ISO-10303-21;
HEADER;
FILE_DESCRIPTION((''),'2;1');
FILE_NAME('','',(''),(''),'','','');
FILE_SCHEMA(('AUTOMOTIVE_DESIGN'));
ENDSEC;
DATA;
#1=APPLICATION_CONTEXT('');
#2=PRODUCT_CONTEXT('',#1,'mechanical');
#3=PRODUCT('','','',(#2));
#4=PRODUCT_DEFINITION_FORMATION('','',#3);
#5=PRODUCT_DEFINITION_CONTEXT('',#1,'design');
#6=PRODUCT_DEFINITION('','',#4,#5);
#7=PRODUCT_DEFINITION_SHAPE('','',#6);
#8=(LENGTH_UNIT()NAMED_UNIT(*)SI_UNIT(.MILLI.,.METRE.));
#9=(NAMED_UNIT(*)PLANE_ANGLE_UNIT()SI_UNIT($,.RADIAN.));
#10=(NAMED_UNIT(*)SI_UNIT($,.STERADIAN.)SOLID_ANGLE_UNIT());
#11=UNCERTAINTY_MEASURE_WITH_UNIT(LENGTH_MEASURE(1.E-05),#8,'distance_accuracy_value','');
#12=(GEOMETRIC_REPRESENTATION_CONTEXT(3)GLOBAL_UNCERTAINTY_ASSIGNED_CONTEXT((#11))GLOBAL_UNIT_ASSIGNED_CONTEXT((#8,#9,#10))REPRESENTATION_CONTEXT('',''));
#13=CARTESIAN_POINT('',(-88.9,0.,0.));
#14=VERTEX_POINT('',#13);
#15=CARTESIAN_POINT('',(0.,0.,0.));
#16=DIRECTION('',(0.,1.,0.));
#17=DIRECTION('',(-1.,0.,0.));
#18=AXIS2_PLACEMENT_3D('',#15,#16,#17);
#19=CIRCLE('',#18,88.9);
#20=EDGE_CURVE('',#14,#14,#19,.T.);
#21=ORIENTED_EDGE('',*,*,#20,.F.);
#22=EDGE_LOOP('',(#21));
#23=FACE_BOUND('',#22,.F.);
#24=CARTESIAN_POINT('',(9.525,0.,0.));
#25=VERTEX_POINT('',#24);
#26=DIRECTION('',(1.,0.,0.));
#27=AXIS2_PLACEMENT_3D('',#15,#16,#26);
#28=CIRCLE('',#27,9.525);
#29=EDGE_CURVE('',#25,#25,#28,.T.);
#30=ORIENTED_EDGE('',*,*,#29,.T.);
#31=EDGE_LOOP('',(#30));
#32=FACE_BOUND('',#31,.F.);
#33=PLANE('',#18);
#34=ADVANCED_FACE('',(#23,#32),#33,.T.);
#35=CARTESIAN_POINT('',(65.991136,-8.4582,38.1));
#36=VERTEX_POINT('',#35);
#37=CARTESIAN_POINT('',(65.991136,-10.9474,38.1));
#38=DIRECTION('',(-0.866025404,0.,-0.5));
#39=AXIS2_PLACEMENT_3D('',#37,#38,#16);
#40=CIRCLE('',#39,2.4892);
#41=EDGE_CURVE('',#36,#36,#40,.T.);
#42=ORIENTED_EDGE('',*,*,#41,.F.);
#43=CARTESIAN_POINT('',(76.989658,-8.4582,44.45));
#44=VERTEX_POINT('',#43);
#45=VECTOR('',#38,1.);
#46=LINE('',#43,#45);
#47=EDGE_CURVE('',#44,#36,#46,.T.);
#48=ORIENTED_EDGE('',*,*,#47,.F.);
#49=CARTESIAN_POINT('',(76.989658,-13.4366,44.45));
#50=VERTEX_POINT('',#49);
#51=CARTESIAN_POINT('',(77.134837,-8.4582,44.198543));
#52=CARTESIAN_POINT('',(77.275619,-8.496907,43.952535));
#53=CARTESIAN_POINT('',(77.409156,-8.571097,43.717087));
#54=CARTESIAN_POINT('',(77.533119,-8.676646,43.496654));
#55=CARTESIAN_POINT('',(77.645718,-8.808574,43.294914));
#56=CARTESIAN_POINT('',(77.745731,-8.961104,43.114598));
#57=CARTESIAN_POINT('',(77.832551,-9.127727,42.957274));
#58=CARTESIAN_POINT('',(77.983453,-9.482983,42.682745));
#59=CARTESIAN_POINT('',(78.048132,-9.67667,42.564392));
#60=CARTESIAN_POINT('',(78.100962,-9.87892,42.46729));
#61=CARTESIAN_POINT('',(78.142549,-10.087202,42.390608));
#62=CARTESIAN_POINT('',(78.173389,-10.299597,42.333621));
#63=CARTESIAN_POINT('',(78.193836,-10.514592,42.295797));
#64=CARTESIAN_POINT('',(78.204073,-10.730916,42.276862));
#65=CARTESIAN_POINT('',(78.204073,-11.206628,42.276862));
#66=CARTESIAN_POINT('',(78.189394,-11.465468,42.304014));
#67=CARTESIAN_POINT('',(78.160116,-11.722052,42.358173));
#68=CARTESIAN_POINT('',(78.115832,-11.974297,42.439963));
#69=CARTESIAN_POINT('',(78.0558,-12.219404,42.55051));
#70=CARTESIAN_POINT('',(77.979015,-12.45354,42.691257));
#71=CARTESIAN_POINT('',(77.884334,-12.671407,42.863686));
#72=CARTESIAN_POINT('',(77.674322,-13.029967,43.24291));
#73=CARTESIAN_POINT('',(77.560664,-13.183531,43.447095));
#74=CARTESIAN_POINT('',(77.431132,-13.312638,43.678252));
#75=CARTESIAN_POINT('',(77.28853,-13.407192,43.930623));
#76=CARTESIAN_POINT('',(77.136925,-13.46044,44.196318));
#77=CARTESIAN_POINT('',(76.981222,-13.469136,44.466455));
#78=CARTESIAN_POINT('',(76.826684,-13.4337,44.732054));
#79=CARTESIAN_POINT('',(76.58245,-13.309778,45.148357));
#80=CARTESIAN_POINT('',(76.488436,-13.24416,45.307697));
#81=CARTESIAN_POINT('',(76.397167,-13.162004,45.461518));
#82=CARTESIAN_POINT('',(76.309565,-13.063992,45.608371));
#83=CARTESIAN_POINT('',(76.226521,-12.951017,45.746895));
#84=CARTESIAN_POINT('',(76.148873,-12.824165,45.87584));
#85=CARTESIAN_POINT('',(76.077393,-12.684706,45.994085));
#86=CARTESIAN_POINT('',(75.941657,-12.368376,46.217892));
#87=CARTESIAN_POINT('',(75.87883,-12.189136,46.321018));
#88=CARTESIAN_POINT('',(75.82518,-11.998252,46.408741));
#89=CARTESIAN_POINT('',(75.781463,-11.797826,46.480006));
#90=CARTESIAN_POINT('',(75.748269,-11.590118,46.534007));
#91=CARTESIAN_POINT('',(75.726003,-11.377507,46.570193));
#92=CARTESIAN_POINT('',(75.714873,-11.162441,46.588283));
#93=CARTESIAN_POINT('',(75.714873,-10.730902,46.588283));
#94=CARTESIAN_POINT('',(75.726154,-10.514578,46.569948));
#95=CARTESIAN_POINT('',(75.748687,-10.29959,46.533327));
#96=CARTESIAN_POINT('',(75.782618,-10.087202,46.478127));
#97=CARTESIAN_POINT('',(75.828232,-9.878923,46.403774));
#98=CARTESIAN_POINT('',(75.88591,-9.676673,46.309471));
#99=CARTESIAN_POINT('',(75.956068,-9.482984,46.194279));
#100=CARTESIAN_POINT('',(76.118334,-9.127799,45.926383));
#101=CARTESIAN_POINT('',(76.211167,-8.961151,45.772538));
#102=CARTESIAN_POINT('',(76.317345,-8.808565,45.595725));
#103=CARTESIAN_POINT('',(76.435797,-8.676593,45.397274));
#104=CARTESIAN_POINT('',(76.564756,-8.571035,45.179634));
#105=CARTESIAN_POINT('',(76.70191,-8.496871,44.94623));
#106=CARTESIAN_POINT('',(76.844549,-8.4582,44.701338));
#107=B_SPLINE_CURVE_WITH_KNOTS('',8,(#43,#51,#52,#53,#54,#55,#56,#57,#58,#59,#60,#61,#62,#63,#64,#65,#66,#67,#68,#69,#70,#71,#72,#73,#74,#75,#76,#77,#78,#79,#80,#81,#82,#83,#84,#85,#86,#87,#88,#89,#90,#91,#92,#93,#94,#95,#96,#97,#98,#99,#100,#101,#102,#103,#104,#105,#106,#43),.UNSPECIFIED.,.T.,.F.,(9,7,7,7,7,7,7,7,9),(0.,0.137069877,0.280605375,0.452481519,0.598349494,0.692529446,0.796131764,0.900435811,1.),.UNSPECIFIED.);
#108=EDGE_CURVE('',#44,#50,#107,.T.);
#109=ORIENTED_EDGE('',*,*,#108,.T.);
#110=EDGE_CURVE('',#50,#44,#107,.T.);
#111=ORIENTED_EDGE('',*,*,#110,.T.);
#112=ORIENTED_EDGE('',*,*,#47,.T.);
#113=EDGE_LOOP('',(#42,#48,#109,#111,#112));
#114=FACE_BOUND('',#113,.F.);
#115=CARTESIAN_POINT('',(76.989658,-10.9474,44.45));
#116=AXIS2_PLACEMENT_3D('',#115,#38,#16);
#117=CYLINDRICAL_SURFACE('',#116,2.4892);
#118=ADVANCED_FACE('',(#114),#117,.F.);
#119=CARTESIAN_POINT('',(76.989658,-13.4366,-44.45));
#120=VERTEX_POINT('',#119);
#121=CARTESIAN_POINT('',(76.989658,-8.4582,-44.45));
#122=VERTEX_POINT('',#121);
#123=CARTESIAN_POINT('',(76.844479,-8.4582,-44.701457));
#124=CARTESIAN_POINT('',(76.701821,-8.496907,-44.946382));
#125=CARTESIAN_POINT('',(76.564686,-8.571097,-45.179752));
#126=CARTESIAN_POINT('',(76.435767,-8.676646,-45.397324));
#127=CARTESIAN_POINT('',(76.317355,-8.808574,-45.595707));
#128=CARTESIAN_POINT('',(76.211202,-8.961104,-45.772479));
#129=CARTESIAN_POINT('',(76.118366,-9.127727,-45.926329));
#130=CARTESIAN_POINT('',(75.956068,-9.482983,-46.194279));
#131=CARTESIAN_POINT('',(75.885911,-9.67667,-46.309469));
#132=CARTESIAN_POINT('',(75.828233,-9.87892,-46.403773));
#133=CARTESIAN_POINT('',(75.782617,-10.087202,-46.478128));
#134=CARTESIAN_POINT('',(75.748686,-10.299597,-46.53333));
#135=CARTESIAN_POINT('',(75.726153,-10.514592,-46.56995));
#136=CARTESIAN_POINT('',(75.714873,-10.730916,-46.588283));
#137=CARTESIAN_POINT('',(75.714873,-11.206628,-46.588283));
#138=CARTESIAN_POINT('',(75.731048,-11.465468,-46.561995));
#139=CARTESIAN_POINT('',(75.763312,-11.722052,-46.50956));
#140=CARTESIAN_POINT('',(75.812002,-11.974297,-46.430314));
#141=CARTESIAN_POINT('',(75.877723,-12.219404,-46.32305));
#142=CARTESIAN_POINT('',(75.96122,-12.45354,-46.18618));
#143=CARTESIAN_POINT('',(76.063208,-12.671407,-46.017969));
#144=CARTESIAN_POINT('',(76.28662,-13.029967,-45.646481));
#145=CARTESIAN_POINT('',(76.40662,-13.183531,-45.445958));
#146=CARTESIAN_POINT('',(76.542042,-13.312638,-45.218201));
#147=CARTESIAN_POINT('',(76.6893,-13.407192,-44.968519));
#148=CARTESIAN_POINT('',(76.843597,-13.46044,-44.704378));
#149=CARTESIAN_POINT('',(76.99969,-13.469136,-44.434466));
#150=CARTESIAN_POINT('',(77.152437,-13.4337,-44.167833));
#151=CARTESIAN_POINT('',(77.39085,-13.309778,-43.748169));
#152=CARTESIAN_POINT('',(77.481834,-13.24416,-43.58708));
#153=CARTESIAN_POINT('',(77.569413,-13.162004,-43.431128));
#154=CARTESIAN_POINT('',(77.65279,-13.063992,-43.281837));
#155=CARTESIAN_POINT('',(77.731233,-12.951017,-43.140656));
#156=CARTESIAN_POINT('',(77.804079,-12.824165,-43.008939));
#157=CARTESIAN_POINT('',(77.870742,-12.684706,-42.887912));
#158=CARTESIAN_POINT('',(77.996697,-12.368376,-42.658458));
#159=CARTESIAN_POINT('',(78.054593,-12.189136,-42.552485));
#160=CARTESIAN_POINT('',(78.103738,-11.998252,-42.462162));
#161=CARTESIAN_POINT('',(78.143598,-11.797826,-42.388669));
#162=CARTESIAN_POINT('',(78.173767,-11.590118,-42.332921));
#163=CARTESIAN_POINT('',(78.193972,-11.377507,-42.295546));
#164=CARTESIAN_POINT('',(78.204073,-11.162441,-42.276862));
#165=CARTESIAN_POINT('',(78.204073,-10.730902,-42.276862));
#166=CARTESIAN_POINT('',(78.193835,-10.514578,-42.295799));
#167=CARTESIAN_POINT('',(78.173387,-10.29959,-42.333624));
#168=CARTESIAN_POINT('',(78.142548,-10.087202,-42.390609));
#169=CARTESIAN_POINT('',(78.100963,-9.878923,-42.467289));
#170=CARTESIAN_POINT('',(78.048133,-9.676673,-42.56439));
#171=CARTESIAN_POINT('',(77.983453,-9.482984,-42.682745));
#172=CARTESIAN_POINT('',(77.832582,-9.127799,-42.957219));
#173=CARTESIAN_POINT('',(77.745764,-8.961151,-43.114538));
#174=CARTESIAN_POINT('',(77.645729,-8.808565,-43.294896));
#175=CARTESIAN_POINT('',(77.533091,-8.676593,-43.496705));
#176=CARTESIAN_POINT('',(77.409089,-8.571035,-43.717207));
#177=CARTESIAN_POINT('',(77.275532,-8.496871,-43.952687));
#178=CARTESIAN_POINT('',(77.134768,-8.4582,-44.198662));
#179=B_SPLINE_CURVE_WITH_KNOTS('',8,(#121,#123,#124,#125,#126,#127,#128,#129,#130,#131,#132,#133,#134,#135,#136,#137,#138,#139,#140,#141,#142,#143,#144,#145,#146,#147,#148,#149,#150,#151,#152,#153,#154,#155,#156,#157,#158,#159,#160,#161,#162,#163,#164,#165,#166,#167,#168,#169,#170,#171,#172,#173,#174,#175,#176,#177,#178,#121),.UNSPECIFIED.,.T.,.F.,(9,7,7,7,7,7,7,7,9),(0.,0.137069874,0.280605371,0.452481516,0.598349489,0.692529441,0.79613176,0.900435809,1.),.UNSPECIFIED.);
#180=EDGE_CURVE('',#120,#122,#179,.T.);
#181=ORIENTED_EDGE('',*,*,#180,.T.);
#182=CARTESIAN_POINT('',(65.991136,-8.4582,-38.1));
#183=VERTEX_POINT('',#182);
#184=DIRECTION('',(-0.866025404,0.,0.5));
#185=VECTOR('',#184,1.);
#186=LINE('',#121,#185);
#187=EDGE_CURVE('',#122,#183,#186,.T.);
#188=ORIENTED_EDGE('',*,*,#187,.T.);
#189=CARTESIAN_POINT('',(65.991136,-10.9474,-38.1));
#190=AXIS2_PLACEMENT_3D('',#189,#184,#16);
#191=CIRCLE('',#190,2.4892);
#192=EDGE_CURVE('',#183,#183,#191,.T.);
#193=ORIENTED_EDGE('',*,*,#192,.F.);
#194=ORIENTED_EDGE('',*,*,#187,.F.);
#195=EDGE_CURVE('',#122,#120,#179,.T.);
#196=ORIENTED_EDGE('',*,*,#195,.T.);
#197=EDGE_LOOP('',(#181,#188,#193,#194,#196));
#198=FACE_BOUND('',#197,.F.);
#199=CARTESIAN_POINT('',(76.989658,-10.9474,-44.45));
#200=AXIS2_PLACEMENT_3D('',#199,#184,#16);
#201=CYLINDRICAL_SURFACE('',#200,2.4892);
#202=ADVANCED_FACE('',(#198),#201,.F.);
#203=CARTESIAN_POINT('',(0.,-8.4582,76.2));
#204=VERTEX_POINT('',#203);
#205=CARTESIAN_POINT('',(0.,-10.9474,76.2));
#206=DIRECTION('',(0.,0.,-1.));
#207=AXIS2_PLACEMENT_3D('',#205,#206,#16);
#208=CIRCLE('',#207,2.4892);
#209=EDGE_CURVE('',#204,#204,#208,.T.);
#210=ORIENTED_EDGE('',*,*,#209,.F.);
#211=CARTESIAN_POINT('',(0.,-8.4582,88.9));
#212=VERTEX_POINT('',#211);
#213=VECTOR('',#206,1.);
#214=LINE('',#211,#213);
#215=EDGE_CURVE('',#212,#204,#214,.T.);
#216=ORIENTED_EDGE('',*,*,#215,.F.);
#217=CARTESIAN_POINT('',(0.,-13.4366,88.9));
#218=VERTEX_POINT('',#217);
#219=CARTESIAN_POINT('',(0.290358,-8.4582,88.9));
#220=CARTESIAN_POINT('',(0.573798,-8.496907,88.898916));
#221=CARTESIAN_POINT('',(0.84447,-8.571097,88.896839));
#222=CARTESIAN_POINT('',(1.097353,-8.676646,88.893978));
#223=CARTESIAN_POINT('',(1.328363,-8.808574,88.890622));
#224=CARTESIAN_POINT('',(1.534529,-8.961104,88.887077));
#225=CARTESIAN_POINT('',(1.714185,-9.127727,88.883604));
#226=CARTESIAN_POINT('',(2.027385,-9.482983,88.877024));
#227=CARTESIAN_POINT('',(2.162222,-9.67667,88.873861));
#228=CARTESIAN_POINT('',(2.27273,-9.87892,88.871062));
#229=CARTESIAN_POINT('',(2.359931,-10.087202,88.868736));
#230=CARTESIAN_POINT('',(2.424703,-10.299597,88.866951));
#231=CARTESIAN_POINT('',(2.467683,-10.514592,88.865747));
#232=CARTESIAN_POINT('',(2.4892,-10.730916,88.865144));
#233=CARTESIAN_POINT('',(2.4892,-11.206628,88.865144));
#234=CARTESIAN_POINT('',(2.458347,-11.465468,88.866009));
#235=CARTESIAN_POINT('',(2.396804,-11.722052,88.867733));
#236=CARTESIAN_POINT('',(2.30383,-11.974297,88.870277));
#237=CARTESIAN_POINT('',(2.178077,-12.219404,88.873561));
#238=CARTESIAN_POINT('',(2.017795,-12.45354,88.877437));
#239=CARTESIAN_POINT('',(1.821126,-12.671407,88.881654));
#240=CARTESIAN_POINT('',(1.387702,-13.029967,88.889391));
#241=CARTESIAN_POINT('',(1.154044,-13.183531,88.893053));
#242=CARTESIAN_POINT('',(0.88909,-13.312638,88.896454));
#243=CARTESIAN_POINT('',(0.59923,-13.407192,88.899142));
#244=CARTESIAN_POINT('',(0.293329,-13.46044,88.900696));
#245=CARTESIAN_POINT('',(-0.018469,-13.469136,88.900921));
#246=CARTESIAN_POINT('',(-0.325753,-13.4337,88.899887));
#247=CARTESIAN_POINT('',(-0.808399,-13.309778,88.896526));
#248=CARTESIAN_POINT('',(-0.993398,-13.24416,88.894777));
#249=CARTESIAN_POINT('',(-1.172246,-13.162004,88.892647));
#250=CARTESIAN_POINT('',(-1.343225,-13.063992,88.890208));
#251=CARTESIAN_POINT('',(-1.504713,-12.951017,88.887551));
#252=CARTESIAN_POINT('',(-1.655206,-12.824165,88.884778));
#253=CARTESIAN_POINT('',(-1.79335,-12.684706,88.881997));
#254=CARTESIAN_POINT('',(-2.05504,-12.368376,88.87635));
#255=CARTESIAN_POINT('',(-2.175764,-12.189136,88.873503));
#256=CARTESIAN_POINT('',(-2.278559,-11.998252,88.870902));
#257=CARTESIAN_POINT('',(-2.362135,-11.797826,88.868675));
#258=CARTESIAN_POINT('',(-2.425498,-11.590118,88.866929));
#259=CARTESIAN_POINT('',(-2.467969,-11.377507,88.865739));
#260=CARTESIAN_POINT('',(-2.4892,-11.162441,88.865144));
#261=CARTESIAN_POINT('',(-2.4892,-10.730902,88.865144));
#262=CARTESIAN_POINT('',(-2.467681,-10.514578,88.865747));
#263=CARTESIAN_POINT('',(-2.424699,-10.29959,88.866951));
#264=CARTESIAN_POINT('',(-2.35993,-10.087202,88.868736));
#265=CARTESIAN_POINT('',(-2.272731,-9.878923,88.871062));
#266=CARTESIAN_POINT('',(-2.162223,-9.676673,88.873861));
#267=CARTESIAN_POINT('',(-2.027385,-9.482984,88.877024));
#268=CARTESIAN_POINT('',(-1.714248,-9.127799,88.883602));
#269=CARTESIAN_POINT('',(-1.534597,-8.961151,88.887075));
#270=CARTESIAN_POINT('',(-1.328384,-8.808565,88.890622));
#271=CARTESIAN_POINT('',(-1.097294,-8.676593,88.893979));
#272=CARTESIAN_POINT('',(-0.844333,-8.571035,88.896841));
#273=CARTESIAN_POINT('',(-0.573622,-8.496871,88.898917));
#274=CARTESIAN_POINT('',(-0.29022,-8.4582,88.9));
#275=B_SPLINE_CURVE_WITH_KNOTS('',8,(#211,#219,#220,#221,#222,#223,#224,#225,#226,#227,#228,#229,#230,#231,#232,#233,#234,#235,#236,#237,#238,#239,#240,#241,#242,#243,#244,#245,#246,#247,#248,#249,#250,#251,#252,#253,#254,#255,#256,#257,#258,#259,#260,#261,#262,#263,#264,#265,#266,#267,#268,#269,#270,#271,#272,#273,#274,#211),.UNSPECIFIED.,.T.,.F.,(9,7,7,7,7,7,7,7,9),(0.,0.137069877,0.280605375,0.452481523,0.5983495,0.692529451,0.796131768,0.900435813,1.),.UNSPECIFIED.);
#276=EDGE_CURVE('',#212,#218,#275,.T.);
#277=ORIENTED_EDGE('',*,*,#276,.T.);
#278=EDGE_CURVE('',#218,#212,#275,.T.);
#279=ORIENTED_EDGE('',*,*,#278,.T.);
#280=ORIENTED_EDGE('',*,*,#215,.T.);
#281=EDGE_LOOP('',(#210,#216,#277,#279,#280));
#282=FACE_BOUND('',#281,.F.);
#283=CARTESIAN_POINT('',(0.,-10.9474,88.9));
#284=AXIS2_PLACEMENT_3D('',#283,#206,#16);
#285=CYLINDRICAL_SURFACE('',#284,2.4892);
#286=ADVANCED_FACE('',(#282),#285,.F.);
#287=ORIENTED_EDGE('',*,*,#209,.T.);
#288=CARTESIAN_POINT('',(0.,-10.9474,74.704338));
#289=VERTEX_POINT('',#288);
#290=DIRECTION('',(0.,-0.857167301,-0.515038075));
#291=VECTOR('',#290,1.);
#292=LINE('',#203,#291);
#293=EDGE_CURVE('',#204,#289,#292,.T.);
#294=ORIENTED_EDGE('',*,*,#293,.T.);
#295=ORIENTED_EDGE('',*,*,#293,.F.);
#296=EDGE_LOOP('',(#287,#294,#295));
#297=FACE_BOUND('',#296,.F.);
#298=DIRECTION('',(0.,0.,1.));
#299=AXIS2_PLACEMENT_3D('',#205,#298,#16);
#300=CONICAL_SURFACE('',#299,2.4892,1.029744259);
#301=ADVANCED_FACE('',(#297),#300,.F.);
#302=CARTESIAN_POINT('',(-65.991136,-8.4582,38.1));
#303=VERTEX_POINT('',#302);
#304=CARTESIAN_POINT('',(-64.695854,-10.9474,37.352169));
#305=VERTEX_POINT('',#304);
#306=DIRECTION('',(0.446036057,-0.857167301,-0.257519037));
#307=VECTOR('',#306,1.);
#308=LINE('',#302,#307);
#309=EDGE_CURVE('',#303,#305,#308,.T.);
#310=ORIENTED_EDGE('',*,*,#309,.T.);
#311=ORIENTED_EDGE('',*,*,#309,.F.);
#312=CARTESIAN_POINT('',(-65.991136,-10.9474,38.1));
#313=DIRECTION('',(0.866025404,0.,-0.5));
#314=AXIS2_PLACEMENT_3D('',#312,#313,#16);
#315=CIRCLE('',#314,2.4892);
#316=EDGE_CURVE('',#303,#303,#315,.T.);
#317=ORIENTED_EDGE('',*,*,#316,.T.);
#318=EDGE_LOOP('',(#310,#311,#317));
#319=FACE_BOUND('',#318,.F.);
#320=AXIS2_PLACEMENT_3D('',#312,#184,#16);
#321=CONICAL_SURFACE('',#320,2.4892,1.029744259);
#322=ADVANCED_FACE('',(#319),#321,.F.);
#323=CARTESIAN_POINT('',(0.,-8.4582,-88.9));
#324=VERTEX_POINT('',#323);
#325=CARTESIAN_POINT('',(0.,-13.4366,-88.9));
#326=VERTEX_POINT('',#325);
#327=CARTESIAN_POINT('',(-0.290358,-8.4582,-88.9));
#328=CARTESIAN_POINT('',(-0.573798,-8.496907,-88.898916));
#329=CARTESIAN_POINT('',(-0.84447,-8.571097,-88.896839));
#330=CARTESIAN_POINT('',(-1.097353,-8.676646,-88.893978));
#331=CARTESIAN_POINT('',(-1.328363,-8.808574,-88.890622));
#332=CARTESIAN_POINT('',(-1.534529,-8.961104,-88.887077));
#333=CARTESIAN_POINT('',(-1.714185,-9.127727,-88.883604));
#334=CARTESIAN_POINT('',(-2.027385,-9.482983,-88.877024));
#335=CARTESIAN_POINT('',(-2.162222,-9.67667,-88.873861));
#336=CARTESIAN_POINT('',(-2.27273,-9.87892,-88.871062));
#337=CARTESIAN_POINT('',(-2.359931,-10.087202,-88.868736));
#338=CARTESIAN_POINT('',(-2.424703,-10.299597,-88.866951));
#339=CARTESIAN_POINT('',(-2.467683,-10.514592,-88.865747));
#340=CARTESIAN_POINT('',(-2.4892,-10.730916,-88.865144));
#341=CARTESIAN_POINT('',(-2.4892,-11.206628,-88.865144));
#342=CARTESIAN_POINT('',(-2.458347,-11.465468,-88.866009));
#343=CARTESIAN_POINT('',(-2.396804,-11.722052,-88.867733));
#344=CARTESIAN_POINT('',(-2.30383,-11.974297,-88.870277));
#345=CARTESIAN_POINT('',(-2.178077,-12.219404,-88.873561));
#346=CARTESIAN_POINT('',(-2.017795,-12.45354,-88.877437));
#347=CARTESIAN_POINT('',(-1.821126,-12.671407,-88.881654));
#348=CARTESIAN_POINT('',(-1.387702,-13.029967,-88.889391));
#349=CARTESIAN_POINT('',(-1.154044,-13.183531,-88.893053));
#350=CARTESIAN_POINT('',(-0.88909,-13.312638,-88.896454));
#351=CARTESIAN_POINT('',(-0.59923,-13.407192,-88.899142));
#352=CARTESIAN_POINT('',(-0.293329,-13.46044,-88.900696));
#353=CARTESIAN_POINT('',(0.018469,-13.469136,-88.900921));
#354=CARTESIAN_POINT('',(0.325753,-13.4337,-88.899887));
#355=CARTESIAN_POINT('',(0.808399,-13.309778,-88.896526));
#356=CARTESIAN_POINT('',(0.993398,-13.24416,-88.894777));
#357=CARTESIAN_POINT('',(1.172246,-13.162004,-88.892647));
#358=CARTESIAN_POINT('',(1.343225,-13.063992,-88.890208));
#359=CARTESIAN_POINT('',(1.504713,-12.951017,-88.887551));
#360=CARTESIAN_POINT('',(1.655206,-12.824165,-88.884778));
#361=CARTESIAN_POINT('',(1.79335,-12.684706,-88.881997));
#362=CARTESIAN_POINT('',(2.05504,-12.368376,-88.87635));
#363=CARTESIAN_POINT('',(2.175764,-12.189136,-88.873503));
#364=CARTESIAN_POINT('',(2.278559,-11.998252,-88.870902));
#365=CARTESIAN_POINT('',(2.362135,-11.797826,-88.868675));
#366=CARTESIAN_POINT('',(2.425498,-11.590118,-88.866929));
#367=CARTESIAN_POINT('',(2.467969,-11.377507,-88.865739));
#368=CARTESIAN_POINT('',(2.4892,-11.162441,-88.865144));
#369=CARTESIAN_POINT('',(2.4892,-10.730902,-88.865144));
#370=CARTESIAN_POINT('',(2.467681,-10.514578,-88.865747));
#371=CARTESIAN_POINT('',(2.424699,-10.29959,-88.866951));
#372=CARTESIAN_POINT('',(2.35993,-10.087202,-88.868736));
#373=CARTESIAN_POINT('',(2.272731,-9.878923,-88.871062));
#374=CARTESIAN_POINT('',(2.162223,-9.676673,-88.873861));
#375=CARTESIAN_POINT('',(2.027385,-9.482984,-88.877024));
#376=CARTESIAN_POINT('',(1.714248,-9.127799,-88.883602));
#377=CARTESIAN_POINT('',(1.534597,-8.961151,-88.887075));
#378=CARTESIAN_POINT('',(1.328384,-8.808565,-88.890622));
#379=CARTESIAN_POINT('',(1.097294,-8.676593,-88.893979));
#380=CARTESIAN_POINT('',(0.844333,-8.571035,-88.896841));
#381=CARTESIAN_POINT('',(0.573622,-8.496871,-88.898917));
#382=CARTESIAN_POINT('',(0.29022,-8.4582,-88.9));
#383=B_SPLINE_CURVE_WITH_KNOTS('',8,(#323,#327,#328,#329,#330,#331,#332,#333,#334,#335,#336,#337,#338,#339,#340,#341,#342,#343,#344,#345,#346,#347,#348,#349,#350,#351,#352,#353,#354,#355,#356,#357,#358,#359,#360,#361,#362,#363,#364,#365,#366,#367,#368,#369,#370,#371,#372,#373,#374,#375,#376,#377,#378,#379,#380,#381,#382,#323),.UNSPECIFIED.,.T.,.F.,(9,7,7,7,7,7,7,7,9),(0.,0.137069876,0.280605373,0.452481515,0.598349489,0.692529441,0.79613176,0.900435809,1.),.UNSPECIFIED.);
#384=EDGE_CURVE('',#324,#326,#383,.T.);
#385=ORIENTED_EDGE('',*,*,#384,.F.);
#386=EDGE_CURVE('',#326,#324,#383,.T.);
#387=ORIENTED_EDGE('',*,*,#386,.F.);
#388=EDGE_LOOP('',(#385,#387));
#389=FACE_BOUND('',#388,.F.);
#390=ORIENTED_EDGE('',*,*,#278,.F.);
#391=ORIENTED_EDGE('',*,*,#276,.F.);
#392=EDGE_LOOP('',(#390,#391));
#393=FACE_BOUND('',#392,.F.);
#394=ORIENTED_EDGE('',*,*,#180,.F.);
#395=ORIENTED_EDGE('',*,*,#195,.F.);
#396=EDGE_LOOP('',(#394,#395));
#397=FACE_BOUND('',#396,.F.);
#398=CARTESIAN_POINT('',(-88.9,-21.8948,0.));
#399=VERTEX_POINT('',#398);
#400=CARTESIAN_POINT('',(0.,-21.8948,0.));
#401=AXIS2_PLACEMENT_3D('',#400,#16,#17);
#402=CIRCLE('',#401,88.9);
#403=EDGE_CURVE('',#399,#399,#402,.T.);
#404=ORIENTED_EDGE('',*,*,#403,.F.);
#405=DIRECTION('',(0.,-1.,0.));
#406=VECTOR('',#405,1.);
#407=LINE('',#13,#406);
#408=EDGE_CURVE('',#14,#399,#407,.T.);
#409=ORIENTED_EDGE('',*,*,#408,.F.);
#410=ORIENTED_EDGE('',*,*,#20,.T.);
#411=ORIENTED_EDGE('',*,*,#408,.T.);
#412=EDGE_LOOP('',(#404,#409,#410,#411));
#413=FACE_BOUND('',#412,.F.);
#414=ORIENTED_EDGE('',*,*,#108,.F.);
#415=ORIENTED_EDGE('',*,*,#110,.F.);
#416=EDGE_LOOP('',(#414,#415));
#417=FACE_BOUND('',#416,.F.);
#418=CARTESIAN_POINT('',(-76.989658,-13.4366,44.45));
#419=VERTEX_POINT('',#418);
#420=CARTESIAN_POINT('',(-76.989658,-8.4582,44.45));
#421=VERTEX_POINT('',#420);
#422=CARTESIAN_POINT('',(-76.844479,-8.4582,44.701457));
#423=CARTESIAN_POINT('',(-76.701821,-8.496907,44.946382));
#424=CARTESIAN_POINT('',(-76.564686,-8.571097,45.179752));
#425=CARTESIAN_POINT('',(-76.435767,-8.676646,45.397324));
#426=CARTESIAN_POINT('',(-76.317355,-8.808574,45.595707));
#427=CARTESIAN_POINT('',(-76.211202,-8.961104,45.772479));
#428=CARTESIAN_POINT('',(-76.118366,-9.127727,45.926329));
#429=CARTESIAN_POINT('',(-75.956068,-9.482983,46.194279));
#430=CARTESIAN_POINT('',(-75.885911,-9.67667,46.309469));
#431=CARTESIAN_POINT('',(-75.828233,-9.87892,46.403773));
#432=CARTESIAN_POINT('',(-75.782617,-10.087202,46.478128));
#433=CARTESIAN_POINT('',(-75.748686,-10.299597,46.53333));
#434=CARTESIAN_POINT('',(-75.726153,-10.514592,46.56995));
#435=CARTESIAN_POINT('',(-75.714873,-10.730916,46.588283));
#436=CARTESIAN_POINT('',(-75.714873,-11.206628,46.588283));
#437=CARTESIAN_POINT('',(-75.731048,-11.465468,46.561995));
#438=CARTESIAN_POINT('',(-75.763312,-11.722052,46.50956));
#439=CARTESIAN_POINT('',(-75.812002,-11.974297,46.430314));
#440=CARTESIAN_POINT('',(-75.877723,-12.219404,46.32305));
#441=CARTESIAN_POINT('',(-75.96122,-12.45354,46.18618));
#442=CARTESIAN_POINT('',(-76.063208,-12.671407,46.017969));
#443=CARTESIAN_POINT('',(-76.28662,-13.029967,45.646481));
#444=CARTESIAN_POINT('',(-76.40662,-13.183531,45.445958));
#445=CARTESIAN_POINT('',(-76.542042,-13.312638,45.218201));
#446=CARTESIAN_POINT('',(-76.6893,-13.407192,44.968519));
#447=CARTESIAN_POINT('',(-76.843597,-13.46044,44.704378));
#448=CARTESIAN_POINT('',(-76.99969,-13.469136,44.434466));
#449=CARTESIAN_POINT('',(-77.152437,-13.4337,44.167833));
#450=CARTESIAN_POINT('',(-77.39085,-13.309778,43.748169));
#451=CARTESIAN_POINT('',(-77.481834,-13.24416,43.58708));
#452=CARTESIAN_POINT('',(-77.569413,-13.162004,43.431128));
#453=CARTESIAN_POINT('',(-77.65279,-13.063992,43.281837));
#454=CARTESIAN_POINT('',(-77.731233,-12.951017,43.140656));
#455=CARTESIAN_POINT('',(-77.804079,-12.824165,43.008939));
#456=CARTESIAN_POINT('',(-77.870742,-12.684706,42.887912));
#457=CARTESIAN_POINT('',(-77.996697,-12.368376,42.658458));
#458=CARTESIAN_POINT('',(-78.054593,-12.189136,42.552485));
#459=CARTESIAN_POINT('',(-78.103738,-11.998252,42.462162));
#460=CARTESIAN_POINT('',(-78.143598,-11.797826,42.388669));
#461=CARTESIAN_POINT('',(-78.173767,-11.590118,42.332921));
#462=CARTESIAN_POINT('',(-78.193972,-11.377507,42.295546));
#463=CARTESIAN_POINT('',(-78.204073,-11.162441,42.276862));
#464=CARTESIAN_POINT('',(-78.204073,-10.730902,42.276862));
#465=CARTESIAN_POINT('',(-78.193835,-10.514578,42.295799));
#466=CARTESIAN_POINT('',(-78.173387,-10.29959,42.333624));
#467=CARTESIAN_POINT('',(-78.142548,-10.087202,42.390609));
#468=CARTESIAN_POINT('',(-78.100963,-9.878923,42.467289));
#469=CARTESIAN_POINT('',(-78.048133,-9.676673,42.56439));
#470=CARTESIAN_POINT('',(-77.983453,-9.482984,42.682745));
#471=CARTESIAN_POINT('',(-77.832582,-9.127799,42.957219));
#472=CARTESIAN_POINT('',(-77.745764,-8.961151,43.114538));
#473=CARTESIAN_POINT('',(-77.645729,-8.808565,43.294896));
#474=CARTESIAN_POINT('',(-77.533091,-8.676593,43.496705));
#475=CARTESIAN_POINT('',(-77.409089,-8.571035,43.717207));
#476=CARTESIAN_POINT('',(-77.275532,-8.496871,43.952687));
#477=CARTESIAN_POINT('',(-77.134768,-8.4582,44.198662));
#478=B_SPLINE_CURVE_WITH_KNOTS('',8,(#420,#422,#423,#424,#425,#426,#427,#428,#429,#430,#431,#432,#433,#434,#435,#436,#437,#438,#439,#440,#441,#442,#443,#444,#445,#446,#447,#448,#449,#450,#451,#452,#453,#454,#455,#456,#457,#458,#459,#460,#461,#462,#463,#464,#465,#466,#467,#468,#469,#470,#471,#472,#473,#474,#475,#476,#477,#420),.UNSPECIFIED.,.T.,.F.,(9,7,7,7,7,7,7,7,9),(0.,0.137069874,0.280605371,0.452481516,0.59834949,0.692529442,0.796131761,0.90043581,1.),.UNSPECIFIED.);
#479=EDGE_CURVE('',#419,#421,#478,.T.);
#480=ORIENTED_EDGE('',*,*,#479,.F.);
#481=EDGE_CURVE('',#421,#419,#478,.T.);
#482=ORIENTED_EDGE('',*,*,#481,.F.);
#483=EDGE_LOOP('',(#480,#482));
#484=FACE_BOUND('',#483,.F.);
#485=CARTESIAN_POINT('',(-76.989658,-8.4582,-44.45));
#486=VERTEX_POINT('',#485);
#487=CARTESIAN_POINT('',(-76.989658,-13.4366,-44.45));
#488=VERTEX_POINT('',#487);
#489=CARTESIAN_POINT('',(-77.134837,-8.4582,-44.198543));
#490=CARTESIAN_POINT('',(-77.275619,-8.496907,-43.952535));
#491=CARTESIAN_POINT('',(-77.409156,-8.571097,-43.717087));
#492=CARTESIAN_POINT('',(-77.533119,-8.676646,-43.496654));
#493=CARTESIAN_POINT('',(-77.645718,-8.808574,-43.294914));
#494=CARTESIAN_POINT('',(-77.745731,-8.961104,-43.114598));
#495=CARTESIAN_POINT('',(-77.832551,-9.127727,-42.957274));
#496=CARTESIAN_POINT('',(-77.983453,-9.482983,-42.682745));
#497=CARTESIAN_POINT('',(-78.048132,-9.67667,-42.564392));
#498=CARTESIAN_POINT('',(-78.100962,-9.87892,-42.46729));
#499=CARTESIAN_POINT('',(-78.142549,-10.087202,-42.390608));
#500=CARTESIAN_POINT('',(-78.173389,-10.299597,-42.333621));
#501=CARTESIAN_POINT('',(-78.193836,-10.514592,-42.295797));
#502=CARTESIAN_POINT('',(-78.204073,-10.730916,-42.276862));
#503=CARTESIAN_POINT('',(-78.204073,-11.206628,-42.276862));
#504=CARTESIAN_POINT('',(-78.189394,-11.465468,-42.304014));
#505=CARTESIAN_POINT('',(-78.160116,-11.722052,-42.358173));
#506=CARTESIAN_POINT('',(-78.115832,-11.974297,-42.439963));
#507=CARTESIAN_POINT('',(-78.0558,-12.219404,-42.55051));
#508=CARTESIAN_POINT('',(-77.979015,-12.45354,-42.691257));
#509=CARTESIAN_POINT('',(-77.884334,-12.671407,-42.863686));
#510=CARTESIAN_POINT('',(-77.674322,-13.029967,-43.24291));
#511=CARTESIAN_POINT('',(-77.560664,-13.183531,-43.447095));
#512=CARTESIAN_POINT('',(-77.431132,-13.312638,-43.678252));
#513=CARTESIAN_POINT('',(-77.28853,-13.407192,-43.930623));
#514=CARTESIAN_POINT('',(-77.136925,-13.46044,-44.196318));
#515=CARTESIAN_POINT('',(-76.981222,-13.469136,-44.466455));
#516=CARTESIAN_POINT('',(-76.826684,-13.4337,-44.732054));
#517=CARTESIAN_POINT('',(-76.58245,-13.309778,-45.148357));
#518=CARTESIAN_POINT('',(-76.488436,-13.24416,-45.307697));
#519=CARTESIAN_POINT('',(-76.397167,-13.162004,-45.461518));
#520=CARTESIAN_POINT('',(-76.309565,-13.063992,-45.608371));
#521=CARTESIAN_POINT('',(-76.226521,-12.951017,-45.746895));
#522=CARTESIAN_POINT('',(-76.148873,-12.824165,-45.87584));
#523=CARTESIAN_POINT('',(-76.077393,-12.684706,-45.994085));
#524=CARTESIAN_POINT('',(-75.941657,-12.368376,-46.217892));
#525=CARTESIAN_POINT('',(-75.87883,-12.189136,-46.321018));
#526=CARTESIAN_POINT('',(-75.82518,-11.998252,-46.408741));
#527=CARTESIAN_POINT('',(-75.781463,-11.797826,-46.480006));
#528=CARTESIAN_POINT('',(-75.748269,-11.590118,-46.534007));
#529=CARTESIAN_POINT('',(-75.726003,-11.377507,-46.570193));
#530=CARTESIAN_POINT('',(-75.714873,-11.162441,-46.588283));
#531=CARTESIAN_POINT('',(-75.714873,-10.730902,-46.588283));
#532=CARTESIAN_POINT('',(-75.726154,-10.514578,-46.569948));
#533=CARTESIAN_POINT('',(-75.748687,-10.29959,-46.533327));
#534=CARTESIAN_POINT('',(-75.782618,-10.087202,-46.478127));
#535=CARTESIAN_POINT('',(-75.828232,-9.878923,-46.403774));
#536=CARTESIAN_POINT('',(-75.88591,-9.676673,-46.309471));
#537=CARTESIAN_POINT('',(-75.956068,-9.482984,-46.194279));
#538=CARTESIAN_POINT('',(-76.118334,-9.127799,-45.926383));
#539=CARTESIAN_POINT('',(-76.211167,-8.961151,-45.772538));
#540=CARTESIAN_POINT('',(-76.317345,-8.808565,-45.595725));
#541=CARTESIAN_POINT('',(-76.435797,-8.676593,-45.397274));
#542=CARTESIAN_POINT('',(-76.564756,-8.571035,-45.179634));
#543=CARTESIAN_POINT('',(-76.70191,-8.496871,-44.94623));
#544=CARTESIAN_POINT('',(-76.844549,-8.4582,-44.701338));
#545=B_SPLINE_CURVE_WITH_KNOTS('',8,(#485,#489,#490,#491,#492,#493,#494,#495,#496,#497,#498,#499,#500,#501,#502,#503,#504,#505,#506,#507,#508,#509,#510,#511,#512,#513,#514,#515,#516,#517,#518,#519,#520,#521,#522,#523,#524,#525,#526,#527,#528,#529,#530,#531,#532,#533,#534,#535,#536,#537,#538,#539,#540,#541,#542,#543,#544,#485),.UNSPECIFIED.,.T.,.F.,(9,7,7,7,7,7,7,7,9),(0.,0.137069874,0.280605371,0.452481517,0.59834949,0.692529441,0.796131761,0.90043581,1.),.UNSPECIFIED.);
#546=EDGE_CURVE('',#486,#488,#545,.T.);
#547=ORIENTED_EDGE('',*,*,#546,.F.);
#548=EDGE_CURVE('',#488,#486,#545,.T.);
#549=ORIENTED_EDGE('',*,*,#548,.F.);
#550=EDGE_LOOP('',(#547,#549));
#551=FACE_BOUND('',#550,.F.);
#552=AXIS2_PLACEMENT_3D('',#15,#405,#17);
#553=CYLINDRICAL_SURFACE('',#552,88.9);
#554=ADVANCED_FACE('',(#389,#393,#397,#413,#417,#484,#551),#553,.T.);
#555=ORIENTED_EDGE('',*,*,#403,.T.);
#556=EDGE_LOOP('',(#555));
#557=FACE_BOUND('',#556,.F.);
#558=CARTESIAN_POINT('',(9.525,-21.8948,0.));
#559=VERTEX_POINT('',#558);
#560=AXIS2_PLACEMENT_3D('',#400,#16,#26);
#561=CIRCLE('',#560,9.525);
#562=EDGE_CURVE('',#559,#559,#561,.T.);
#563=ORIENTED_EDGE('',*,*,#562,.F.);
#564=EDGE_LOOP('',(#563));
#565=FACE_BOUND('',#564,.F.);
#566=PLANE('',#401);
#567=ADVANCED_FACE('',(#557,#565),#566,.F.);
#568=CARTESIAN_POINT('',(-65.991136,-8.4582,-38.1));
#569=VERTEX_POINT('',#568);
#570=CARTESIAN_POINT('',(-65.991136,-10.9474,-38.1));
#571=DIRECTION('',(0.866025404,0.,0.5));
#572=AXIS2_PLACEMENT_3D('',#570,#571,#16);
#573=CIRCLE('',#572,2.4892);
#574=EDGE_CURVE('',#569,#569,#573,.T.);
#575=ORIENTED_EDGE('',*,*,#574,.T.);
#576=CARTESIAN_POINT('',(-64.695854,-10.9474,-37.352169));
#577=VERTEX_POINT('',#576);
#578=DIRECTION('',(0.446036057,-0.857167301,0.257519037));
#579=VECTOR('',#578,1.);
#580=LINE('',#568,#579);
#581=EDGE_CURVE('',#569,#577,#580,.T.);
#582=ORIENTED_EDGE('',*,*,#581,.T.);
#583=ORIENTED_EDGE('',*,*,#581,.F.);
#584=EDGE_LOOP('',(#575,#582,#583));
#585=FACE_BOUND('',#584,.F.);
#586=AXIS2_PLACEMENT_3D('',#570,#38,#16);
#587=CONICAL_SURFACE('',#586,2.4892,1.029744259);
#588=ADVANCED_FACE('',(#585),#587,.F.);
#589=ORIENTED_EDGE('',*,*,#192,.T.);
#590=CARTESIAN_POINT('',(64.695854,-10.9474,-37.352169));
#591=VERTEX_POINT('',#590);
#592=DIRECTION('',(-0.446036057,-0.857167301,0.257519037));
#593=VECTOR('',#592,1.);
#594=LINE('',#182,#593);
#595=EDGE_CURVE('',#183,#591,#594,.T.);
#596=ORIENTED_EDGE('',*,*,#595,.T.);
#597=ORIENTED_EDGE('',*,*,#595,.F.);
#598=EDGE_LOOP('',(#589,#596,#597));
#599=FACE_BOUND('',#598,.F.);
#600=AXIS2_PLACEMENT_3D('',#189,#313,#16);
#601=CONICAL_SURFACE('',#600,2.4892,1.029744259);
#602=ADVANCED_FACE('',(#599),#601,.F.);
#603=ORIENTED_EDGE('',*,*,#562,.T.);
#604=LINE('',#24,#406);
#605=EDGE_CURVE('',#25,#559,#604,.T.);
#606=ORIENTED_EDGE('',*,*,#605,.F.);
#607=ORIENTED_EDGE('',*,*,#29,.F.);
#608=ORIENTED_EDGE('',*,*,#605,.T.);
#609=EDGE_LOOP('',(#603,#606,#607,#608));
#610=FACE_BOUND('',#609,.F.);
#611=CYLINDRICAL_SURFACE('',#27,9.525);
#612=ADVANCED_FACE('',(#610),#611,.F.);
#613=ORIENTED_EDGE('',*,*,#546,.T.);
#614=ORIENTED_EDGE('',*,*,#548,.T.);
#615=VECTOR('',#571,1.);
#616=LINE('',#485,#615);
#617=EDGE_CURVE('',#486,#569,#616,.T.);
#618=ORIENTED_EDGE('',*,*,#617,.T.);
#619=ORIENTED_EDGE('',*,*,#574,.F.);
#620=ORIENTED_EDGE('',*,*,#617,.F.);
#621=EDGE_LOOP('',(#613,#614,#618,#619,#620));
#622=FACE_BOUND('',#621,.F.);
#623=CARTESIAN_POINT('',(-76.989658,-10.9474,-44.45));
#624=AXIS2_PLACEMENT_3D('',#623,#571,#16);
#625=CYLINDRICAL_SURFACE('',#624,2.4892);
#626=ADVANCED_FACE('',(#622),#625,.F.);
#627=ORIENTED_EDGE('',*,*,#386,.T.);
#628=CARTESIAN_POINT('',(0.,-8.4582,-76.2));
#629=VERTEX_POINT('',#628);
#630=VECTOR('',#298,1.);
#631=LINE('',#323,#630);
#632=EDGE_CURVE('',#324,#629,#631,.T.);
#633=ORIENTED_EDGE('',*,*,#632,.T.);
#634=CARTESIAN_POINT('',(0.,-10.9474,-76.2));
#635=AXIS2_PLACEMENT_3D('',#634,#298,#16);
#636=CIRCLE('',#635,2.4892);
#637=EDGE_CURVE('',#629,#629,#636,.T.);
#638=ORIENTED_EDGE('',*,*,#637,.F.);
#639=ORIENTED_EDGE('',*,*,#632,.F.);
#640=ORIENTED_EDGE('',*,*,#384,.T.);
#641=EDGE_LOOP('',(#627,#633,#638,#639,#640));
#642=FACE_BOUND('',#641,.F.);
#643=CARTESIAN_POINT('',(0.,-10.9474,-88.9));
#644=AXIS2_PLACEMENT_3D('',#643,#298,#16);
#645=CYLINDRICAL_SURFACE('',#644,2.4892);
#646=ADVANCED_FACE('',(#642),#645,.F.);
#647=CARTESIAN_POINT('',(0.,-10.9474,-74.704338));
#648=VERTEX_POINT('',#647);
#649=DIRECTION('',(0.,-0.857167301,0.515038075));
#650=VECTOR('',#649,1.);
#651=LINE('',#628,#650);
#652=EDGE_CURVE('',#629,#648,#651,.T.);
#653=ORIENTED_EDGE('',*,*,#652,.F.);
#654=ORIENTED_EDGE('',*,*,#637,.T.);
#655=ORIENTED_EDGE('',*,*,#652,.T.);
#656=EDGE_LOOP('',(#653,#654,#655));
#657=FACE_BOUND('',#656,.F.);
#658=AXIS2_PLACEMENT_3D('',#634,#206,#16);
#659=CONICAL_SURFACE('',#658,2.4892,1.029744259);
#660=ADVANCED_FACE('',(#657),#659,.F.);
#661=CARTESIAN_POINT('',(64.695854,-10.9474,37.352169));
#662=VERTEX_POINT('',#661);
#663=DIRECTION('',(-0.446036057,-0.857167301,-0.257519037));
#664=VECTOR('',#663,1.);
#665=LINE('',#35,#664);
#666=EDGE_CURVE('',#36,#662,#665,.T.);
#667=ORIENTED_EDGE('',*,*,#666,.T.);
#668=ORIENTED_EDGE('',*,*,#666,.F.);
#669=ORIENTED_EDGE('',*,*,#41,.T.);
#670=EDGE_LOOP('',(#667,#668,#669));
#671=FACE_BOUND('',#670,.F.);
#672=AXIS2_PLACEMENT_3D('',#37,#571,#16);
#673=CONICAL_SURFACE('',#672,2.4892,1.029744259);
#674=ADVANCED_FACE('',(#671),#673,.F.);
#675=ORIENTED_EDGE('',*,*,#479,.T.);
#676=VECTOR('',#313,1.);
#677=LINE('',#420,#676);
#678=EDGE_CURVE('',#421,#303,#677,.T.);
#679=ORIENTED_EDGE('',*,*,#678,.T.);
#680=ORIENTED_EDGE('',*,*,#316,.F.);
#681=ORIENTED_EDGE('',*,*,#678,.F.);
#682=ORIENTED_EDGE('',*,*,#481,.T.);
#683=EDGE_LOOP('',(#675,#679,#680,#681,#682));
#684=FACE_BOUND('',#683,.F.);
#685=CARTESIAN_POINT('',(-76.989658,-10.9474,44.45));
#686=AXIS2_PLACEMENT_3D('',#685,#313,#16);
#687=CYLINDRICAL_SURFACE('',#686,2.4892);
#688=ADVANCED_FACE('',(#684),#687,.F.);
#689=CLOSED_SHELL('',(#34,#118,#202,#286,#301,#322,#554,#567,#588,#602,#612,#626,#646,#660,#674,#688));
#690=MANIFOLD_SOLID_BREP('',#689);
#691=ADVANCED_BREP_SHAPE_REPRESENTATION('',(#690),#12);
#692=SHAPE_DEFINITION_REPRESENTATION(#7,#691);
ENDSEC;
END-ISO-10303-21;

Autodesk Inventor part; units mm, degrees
ref_plane "YZ Plane" through (0, 0, 0) normal (1, 0, 0) x (0, 1, 0)
ref_plane "XZ Plane" through (0, 0, 0) normal (0, 1, 0) x (-1, 0, 0)
sketch "Sketch1" plane through (0, 0, 0) normal (0, 0, 1) x (1, 0, 0)
  line L0 (0, 0) -> (-88.9, 0)
  line L1 (-153.7877, 0) -> (0, 0)
  line L2 (-88.9, 0) -> (-88.9, -21.8948)
  line L3 (-88.9, -21.8948) -> (0, -21.8948)
  line L4 (0, -21.8948) -> (0, 0)
  dimension "d0" = 88.9
  dimension "d1" = 21.8948
revolve "Revolution1" add sketch "Sketch1" angle 360 about axis through (0, -21.8948, 0) along (0, 1, 0)
ref_plane "Work Plane1" through (0, -10.9474, -88.9) normal (0, 0, 1) x (1, 0, 0)
sketch "Sketch2" plane through (0, -10.9474, -88.9) normal (0, 0, 1) x (1, 0, 0)
  line L0 (0, 10.9474) -> (0, 0)
  dimension "d3" = 10.9474
hole "Hole1" at (0, -10.9474, -88.9) direction (0, 0, 1) diameter 4.9784 depth 12.7 tip angle 118 thread size "1/4-20 UNC" class "2B" standard "ANSI Unified Screw Threads"
pattern_circular "Circular Pattern1" count 6 over 360 about axis through (0, -10, 0) along (0, 1, 0) of "Hole1"
sketch "Sketch3" plane through (0, 0, 0) normal (0, 1, 0) x (1, 0, 0)
  circle A0 centre (0, 0) radius 9.525
  point P0 (0, 0)
  dimension "d14" = 19.05
extrude "Extrusion1" cut sketch "Sketch3" against normal blind 74.6125
properties part number "Avi Bay phenolic" material "Phenolic Resin"
